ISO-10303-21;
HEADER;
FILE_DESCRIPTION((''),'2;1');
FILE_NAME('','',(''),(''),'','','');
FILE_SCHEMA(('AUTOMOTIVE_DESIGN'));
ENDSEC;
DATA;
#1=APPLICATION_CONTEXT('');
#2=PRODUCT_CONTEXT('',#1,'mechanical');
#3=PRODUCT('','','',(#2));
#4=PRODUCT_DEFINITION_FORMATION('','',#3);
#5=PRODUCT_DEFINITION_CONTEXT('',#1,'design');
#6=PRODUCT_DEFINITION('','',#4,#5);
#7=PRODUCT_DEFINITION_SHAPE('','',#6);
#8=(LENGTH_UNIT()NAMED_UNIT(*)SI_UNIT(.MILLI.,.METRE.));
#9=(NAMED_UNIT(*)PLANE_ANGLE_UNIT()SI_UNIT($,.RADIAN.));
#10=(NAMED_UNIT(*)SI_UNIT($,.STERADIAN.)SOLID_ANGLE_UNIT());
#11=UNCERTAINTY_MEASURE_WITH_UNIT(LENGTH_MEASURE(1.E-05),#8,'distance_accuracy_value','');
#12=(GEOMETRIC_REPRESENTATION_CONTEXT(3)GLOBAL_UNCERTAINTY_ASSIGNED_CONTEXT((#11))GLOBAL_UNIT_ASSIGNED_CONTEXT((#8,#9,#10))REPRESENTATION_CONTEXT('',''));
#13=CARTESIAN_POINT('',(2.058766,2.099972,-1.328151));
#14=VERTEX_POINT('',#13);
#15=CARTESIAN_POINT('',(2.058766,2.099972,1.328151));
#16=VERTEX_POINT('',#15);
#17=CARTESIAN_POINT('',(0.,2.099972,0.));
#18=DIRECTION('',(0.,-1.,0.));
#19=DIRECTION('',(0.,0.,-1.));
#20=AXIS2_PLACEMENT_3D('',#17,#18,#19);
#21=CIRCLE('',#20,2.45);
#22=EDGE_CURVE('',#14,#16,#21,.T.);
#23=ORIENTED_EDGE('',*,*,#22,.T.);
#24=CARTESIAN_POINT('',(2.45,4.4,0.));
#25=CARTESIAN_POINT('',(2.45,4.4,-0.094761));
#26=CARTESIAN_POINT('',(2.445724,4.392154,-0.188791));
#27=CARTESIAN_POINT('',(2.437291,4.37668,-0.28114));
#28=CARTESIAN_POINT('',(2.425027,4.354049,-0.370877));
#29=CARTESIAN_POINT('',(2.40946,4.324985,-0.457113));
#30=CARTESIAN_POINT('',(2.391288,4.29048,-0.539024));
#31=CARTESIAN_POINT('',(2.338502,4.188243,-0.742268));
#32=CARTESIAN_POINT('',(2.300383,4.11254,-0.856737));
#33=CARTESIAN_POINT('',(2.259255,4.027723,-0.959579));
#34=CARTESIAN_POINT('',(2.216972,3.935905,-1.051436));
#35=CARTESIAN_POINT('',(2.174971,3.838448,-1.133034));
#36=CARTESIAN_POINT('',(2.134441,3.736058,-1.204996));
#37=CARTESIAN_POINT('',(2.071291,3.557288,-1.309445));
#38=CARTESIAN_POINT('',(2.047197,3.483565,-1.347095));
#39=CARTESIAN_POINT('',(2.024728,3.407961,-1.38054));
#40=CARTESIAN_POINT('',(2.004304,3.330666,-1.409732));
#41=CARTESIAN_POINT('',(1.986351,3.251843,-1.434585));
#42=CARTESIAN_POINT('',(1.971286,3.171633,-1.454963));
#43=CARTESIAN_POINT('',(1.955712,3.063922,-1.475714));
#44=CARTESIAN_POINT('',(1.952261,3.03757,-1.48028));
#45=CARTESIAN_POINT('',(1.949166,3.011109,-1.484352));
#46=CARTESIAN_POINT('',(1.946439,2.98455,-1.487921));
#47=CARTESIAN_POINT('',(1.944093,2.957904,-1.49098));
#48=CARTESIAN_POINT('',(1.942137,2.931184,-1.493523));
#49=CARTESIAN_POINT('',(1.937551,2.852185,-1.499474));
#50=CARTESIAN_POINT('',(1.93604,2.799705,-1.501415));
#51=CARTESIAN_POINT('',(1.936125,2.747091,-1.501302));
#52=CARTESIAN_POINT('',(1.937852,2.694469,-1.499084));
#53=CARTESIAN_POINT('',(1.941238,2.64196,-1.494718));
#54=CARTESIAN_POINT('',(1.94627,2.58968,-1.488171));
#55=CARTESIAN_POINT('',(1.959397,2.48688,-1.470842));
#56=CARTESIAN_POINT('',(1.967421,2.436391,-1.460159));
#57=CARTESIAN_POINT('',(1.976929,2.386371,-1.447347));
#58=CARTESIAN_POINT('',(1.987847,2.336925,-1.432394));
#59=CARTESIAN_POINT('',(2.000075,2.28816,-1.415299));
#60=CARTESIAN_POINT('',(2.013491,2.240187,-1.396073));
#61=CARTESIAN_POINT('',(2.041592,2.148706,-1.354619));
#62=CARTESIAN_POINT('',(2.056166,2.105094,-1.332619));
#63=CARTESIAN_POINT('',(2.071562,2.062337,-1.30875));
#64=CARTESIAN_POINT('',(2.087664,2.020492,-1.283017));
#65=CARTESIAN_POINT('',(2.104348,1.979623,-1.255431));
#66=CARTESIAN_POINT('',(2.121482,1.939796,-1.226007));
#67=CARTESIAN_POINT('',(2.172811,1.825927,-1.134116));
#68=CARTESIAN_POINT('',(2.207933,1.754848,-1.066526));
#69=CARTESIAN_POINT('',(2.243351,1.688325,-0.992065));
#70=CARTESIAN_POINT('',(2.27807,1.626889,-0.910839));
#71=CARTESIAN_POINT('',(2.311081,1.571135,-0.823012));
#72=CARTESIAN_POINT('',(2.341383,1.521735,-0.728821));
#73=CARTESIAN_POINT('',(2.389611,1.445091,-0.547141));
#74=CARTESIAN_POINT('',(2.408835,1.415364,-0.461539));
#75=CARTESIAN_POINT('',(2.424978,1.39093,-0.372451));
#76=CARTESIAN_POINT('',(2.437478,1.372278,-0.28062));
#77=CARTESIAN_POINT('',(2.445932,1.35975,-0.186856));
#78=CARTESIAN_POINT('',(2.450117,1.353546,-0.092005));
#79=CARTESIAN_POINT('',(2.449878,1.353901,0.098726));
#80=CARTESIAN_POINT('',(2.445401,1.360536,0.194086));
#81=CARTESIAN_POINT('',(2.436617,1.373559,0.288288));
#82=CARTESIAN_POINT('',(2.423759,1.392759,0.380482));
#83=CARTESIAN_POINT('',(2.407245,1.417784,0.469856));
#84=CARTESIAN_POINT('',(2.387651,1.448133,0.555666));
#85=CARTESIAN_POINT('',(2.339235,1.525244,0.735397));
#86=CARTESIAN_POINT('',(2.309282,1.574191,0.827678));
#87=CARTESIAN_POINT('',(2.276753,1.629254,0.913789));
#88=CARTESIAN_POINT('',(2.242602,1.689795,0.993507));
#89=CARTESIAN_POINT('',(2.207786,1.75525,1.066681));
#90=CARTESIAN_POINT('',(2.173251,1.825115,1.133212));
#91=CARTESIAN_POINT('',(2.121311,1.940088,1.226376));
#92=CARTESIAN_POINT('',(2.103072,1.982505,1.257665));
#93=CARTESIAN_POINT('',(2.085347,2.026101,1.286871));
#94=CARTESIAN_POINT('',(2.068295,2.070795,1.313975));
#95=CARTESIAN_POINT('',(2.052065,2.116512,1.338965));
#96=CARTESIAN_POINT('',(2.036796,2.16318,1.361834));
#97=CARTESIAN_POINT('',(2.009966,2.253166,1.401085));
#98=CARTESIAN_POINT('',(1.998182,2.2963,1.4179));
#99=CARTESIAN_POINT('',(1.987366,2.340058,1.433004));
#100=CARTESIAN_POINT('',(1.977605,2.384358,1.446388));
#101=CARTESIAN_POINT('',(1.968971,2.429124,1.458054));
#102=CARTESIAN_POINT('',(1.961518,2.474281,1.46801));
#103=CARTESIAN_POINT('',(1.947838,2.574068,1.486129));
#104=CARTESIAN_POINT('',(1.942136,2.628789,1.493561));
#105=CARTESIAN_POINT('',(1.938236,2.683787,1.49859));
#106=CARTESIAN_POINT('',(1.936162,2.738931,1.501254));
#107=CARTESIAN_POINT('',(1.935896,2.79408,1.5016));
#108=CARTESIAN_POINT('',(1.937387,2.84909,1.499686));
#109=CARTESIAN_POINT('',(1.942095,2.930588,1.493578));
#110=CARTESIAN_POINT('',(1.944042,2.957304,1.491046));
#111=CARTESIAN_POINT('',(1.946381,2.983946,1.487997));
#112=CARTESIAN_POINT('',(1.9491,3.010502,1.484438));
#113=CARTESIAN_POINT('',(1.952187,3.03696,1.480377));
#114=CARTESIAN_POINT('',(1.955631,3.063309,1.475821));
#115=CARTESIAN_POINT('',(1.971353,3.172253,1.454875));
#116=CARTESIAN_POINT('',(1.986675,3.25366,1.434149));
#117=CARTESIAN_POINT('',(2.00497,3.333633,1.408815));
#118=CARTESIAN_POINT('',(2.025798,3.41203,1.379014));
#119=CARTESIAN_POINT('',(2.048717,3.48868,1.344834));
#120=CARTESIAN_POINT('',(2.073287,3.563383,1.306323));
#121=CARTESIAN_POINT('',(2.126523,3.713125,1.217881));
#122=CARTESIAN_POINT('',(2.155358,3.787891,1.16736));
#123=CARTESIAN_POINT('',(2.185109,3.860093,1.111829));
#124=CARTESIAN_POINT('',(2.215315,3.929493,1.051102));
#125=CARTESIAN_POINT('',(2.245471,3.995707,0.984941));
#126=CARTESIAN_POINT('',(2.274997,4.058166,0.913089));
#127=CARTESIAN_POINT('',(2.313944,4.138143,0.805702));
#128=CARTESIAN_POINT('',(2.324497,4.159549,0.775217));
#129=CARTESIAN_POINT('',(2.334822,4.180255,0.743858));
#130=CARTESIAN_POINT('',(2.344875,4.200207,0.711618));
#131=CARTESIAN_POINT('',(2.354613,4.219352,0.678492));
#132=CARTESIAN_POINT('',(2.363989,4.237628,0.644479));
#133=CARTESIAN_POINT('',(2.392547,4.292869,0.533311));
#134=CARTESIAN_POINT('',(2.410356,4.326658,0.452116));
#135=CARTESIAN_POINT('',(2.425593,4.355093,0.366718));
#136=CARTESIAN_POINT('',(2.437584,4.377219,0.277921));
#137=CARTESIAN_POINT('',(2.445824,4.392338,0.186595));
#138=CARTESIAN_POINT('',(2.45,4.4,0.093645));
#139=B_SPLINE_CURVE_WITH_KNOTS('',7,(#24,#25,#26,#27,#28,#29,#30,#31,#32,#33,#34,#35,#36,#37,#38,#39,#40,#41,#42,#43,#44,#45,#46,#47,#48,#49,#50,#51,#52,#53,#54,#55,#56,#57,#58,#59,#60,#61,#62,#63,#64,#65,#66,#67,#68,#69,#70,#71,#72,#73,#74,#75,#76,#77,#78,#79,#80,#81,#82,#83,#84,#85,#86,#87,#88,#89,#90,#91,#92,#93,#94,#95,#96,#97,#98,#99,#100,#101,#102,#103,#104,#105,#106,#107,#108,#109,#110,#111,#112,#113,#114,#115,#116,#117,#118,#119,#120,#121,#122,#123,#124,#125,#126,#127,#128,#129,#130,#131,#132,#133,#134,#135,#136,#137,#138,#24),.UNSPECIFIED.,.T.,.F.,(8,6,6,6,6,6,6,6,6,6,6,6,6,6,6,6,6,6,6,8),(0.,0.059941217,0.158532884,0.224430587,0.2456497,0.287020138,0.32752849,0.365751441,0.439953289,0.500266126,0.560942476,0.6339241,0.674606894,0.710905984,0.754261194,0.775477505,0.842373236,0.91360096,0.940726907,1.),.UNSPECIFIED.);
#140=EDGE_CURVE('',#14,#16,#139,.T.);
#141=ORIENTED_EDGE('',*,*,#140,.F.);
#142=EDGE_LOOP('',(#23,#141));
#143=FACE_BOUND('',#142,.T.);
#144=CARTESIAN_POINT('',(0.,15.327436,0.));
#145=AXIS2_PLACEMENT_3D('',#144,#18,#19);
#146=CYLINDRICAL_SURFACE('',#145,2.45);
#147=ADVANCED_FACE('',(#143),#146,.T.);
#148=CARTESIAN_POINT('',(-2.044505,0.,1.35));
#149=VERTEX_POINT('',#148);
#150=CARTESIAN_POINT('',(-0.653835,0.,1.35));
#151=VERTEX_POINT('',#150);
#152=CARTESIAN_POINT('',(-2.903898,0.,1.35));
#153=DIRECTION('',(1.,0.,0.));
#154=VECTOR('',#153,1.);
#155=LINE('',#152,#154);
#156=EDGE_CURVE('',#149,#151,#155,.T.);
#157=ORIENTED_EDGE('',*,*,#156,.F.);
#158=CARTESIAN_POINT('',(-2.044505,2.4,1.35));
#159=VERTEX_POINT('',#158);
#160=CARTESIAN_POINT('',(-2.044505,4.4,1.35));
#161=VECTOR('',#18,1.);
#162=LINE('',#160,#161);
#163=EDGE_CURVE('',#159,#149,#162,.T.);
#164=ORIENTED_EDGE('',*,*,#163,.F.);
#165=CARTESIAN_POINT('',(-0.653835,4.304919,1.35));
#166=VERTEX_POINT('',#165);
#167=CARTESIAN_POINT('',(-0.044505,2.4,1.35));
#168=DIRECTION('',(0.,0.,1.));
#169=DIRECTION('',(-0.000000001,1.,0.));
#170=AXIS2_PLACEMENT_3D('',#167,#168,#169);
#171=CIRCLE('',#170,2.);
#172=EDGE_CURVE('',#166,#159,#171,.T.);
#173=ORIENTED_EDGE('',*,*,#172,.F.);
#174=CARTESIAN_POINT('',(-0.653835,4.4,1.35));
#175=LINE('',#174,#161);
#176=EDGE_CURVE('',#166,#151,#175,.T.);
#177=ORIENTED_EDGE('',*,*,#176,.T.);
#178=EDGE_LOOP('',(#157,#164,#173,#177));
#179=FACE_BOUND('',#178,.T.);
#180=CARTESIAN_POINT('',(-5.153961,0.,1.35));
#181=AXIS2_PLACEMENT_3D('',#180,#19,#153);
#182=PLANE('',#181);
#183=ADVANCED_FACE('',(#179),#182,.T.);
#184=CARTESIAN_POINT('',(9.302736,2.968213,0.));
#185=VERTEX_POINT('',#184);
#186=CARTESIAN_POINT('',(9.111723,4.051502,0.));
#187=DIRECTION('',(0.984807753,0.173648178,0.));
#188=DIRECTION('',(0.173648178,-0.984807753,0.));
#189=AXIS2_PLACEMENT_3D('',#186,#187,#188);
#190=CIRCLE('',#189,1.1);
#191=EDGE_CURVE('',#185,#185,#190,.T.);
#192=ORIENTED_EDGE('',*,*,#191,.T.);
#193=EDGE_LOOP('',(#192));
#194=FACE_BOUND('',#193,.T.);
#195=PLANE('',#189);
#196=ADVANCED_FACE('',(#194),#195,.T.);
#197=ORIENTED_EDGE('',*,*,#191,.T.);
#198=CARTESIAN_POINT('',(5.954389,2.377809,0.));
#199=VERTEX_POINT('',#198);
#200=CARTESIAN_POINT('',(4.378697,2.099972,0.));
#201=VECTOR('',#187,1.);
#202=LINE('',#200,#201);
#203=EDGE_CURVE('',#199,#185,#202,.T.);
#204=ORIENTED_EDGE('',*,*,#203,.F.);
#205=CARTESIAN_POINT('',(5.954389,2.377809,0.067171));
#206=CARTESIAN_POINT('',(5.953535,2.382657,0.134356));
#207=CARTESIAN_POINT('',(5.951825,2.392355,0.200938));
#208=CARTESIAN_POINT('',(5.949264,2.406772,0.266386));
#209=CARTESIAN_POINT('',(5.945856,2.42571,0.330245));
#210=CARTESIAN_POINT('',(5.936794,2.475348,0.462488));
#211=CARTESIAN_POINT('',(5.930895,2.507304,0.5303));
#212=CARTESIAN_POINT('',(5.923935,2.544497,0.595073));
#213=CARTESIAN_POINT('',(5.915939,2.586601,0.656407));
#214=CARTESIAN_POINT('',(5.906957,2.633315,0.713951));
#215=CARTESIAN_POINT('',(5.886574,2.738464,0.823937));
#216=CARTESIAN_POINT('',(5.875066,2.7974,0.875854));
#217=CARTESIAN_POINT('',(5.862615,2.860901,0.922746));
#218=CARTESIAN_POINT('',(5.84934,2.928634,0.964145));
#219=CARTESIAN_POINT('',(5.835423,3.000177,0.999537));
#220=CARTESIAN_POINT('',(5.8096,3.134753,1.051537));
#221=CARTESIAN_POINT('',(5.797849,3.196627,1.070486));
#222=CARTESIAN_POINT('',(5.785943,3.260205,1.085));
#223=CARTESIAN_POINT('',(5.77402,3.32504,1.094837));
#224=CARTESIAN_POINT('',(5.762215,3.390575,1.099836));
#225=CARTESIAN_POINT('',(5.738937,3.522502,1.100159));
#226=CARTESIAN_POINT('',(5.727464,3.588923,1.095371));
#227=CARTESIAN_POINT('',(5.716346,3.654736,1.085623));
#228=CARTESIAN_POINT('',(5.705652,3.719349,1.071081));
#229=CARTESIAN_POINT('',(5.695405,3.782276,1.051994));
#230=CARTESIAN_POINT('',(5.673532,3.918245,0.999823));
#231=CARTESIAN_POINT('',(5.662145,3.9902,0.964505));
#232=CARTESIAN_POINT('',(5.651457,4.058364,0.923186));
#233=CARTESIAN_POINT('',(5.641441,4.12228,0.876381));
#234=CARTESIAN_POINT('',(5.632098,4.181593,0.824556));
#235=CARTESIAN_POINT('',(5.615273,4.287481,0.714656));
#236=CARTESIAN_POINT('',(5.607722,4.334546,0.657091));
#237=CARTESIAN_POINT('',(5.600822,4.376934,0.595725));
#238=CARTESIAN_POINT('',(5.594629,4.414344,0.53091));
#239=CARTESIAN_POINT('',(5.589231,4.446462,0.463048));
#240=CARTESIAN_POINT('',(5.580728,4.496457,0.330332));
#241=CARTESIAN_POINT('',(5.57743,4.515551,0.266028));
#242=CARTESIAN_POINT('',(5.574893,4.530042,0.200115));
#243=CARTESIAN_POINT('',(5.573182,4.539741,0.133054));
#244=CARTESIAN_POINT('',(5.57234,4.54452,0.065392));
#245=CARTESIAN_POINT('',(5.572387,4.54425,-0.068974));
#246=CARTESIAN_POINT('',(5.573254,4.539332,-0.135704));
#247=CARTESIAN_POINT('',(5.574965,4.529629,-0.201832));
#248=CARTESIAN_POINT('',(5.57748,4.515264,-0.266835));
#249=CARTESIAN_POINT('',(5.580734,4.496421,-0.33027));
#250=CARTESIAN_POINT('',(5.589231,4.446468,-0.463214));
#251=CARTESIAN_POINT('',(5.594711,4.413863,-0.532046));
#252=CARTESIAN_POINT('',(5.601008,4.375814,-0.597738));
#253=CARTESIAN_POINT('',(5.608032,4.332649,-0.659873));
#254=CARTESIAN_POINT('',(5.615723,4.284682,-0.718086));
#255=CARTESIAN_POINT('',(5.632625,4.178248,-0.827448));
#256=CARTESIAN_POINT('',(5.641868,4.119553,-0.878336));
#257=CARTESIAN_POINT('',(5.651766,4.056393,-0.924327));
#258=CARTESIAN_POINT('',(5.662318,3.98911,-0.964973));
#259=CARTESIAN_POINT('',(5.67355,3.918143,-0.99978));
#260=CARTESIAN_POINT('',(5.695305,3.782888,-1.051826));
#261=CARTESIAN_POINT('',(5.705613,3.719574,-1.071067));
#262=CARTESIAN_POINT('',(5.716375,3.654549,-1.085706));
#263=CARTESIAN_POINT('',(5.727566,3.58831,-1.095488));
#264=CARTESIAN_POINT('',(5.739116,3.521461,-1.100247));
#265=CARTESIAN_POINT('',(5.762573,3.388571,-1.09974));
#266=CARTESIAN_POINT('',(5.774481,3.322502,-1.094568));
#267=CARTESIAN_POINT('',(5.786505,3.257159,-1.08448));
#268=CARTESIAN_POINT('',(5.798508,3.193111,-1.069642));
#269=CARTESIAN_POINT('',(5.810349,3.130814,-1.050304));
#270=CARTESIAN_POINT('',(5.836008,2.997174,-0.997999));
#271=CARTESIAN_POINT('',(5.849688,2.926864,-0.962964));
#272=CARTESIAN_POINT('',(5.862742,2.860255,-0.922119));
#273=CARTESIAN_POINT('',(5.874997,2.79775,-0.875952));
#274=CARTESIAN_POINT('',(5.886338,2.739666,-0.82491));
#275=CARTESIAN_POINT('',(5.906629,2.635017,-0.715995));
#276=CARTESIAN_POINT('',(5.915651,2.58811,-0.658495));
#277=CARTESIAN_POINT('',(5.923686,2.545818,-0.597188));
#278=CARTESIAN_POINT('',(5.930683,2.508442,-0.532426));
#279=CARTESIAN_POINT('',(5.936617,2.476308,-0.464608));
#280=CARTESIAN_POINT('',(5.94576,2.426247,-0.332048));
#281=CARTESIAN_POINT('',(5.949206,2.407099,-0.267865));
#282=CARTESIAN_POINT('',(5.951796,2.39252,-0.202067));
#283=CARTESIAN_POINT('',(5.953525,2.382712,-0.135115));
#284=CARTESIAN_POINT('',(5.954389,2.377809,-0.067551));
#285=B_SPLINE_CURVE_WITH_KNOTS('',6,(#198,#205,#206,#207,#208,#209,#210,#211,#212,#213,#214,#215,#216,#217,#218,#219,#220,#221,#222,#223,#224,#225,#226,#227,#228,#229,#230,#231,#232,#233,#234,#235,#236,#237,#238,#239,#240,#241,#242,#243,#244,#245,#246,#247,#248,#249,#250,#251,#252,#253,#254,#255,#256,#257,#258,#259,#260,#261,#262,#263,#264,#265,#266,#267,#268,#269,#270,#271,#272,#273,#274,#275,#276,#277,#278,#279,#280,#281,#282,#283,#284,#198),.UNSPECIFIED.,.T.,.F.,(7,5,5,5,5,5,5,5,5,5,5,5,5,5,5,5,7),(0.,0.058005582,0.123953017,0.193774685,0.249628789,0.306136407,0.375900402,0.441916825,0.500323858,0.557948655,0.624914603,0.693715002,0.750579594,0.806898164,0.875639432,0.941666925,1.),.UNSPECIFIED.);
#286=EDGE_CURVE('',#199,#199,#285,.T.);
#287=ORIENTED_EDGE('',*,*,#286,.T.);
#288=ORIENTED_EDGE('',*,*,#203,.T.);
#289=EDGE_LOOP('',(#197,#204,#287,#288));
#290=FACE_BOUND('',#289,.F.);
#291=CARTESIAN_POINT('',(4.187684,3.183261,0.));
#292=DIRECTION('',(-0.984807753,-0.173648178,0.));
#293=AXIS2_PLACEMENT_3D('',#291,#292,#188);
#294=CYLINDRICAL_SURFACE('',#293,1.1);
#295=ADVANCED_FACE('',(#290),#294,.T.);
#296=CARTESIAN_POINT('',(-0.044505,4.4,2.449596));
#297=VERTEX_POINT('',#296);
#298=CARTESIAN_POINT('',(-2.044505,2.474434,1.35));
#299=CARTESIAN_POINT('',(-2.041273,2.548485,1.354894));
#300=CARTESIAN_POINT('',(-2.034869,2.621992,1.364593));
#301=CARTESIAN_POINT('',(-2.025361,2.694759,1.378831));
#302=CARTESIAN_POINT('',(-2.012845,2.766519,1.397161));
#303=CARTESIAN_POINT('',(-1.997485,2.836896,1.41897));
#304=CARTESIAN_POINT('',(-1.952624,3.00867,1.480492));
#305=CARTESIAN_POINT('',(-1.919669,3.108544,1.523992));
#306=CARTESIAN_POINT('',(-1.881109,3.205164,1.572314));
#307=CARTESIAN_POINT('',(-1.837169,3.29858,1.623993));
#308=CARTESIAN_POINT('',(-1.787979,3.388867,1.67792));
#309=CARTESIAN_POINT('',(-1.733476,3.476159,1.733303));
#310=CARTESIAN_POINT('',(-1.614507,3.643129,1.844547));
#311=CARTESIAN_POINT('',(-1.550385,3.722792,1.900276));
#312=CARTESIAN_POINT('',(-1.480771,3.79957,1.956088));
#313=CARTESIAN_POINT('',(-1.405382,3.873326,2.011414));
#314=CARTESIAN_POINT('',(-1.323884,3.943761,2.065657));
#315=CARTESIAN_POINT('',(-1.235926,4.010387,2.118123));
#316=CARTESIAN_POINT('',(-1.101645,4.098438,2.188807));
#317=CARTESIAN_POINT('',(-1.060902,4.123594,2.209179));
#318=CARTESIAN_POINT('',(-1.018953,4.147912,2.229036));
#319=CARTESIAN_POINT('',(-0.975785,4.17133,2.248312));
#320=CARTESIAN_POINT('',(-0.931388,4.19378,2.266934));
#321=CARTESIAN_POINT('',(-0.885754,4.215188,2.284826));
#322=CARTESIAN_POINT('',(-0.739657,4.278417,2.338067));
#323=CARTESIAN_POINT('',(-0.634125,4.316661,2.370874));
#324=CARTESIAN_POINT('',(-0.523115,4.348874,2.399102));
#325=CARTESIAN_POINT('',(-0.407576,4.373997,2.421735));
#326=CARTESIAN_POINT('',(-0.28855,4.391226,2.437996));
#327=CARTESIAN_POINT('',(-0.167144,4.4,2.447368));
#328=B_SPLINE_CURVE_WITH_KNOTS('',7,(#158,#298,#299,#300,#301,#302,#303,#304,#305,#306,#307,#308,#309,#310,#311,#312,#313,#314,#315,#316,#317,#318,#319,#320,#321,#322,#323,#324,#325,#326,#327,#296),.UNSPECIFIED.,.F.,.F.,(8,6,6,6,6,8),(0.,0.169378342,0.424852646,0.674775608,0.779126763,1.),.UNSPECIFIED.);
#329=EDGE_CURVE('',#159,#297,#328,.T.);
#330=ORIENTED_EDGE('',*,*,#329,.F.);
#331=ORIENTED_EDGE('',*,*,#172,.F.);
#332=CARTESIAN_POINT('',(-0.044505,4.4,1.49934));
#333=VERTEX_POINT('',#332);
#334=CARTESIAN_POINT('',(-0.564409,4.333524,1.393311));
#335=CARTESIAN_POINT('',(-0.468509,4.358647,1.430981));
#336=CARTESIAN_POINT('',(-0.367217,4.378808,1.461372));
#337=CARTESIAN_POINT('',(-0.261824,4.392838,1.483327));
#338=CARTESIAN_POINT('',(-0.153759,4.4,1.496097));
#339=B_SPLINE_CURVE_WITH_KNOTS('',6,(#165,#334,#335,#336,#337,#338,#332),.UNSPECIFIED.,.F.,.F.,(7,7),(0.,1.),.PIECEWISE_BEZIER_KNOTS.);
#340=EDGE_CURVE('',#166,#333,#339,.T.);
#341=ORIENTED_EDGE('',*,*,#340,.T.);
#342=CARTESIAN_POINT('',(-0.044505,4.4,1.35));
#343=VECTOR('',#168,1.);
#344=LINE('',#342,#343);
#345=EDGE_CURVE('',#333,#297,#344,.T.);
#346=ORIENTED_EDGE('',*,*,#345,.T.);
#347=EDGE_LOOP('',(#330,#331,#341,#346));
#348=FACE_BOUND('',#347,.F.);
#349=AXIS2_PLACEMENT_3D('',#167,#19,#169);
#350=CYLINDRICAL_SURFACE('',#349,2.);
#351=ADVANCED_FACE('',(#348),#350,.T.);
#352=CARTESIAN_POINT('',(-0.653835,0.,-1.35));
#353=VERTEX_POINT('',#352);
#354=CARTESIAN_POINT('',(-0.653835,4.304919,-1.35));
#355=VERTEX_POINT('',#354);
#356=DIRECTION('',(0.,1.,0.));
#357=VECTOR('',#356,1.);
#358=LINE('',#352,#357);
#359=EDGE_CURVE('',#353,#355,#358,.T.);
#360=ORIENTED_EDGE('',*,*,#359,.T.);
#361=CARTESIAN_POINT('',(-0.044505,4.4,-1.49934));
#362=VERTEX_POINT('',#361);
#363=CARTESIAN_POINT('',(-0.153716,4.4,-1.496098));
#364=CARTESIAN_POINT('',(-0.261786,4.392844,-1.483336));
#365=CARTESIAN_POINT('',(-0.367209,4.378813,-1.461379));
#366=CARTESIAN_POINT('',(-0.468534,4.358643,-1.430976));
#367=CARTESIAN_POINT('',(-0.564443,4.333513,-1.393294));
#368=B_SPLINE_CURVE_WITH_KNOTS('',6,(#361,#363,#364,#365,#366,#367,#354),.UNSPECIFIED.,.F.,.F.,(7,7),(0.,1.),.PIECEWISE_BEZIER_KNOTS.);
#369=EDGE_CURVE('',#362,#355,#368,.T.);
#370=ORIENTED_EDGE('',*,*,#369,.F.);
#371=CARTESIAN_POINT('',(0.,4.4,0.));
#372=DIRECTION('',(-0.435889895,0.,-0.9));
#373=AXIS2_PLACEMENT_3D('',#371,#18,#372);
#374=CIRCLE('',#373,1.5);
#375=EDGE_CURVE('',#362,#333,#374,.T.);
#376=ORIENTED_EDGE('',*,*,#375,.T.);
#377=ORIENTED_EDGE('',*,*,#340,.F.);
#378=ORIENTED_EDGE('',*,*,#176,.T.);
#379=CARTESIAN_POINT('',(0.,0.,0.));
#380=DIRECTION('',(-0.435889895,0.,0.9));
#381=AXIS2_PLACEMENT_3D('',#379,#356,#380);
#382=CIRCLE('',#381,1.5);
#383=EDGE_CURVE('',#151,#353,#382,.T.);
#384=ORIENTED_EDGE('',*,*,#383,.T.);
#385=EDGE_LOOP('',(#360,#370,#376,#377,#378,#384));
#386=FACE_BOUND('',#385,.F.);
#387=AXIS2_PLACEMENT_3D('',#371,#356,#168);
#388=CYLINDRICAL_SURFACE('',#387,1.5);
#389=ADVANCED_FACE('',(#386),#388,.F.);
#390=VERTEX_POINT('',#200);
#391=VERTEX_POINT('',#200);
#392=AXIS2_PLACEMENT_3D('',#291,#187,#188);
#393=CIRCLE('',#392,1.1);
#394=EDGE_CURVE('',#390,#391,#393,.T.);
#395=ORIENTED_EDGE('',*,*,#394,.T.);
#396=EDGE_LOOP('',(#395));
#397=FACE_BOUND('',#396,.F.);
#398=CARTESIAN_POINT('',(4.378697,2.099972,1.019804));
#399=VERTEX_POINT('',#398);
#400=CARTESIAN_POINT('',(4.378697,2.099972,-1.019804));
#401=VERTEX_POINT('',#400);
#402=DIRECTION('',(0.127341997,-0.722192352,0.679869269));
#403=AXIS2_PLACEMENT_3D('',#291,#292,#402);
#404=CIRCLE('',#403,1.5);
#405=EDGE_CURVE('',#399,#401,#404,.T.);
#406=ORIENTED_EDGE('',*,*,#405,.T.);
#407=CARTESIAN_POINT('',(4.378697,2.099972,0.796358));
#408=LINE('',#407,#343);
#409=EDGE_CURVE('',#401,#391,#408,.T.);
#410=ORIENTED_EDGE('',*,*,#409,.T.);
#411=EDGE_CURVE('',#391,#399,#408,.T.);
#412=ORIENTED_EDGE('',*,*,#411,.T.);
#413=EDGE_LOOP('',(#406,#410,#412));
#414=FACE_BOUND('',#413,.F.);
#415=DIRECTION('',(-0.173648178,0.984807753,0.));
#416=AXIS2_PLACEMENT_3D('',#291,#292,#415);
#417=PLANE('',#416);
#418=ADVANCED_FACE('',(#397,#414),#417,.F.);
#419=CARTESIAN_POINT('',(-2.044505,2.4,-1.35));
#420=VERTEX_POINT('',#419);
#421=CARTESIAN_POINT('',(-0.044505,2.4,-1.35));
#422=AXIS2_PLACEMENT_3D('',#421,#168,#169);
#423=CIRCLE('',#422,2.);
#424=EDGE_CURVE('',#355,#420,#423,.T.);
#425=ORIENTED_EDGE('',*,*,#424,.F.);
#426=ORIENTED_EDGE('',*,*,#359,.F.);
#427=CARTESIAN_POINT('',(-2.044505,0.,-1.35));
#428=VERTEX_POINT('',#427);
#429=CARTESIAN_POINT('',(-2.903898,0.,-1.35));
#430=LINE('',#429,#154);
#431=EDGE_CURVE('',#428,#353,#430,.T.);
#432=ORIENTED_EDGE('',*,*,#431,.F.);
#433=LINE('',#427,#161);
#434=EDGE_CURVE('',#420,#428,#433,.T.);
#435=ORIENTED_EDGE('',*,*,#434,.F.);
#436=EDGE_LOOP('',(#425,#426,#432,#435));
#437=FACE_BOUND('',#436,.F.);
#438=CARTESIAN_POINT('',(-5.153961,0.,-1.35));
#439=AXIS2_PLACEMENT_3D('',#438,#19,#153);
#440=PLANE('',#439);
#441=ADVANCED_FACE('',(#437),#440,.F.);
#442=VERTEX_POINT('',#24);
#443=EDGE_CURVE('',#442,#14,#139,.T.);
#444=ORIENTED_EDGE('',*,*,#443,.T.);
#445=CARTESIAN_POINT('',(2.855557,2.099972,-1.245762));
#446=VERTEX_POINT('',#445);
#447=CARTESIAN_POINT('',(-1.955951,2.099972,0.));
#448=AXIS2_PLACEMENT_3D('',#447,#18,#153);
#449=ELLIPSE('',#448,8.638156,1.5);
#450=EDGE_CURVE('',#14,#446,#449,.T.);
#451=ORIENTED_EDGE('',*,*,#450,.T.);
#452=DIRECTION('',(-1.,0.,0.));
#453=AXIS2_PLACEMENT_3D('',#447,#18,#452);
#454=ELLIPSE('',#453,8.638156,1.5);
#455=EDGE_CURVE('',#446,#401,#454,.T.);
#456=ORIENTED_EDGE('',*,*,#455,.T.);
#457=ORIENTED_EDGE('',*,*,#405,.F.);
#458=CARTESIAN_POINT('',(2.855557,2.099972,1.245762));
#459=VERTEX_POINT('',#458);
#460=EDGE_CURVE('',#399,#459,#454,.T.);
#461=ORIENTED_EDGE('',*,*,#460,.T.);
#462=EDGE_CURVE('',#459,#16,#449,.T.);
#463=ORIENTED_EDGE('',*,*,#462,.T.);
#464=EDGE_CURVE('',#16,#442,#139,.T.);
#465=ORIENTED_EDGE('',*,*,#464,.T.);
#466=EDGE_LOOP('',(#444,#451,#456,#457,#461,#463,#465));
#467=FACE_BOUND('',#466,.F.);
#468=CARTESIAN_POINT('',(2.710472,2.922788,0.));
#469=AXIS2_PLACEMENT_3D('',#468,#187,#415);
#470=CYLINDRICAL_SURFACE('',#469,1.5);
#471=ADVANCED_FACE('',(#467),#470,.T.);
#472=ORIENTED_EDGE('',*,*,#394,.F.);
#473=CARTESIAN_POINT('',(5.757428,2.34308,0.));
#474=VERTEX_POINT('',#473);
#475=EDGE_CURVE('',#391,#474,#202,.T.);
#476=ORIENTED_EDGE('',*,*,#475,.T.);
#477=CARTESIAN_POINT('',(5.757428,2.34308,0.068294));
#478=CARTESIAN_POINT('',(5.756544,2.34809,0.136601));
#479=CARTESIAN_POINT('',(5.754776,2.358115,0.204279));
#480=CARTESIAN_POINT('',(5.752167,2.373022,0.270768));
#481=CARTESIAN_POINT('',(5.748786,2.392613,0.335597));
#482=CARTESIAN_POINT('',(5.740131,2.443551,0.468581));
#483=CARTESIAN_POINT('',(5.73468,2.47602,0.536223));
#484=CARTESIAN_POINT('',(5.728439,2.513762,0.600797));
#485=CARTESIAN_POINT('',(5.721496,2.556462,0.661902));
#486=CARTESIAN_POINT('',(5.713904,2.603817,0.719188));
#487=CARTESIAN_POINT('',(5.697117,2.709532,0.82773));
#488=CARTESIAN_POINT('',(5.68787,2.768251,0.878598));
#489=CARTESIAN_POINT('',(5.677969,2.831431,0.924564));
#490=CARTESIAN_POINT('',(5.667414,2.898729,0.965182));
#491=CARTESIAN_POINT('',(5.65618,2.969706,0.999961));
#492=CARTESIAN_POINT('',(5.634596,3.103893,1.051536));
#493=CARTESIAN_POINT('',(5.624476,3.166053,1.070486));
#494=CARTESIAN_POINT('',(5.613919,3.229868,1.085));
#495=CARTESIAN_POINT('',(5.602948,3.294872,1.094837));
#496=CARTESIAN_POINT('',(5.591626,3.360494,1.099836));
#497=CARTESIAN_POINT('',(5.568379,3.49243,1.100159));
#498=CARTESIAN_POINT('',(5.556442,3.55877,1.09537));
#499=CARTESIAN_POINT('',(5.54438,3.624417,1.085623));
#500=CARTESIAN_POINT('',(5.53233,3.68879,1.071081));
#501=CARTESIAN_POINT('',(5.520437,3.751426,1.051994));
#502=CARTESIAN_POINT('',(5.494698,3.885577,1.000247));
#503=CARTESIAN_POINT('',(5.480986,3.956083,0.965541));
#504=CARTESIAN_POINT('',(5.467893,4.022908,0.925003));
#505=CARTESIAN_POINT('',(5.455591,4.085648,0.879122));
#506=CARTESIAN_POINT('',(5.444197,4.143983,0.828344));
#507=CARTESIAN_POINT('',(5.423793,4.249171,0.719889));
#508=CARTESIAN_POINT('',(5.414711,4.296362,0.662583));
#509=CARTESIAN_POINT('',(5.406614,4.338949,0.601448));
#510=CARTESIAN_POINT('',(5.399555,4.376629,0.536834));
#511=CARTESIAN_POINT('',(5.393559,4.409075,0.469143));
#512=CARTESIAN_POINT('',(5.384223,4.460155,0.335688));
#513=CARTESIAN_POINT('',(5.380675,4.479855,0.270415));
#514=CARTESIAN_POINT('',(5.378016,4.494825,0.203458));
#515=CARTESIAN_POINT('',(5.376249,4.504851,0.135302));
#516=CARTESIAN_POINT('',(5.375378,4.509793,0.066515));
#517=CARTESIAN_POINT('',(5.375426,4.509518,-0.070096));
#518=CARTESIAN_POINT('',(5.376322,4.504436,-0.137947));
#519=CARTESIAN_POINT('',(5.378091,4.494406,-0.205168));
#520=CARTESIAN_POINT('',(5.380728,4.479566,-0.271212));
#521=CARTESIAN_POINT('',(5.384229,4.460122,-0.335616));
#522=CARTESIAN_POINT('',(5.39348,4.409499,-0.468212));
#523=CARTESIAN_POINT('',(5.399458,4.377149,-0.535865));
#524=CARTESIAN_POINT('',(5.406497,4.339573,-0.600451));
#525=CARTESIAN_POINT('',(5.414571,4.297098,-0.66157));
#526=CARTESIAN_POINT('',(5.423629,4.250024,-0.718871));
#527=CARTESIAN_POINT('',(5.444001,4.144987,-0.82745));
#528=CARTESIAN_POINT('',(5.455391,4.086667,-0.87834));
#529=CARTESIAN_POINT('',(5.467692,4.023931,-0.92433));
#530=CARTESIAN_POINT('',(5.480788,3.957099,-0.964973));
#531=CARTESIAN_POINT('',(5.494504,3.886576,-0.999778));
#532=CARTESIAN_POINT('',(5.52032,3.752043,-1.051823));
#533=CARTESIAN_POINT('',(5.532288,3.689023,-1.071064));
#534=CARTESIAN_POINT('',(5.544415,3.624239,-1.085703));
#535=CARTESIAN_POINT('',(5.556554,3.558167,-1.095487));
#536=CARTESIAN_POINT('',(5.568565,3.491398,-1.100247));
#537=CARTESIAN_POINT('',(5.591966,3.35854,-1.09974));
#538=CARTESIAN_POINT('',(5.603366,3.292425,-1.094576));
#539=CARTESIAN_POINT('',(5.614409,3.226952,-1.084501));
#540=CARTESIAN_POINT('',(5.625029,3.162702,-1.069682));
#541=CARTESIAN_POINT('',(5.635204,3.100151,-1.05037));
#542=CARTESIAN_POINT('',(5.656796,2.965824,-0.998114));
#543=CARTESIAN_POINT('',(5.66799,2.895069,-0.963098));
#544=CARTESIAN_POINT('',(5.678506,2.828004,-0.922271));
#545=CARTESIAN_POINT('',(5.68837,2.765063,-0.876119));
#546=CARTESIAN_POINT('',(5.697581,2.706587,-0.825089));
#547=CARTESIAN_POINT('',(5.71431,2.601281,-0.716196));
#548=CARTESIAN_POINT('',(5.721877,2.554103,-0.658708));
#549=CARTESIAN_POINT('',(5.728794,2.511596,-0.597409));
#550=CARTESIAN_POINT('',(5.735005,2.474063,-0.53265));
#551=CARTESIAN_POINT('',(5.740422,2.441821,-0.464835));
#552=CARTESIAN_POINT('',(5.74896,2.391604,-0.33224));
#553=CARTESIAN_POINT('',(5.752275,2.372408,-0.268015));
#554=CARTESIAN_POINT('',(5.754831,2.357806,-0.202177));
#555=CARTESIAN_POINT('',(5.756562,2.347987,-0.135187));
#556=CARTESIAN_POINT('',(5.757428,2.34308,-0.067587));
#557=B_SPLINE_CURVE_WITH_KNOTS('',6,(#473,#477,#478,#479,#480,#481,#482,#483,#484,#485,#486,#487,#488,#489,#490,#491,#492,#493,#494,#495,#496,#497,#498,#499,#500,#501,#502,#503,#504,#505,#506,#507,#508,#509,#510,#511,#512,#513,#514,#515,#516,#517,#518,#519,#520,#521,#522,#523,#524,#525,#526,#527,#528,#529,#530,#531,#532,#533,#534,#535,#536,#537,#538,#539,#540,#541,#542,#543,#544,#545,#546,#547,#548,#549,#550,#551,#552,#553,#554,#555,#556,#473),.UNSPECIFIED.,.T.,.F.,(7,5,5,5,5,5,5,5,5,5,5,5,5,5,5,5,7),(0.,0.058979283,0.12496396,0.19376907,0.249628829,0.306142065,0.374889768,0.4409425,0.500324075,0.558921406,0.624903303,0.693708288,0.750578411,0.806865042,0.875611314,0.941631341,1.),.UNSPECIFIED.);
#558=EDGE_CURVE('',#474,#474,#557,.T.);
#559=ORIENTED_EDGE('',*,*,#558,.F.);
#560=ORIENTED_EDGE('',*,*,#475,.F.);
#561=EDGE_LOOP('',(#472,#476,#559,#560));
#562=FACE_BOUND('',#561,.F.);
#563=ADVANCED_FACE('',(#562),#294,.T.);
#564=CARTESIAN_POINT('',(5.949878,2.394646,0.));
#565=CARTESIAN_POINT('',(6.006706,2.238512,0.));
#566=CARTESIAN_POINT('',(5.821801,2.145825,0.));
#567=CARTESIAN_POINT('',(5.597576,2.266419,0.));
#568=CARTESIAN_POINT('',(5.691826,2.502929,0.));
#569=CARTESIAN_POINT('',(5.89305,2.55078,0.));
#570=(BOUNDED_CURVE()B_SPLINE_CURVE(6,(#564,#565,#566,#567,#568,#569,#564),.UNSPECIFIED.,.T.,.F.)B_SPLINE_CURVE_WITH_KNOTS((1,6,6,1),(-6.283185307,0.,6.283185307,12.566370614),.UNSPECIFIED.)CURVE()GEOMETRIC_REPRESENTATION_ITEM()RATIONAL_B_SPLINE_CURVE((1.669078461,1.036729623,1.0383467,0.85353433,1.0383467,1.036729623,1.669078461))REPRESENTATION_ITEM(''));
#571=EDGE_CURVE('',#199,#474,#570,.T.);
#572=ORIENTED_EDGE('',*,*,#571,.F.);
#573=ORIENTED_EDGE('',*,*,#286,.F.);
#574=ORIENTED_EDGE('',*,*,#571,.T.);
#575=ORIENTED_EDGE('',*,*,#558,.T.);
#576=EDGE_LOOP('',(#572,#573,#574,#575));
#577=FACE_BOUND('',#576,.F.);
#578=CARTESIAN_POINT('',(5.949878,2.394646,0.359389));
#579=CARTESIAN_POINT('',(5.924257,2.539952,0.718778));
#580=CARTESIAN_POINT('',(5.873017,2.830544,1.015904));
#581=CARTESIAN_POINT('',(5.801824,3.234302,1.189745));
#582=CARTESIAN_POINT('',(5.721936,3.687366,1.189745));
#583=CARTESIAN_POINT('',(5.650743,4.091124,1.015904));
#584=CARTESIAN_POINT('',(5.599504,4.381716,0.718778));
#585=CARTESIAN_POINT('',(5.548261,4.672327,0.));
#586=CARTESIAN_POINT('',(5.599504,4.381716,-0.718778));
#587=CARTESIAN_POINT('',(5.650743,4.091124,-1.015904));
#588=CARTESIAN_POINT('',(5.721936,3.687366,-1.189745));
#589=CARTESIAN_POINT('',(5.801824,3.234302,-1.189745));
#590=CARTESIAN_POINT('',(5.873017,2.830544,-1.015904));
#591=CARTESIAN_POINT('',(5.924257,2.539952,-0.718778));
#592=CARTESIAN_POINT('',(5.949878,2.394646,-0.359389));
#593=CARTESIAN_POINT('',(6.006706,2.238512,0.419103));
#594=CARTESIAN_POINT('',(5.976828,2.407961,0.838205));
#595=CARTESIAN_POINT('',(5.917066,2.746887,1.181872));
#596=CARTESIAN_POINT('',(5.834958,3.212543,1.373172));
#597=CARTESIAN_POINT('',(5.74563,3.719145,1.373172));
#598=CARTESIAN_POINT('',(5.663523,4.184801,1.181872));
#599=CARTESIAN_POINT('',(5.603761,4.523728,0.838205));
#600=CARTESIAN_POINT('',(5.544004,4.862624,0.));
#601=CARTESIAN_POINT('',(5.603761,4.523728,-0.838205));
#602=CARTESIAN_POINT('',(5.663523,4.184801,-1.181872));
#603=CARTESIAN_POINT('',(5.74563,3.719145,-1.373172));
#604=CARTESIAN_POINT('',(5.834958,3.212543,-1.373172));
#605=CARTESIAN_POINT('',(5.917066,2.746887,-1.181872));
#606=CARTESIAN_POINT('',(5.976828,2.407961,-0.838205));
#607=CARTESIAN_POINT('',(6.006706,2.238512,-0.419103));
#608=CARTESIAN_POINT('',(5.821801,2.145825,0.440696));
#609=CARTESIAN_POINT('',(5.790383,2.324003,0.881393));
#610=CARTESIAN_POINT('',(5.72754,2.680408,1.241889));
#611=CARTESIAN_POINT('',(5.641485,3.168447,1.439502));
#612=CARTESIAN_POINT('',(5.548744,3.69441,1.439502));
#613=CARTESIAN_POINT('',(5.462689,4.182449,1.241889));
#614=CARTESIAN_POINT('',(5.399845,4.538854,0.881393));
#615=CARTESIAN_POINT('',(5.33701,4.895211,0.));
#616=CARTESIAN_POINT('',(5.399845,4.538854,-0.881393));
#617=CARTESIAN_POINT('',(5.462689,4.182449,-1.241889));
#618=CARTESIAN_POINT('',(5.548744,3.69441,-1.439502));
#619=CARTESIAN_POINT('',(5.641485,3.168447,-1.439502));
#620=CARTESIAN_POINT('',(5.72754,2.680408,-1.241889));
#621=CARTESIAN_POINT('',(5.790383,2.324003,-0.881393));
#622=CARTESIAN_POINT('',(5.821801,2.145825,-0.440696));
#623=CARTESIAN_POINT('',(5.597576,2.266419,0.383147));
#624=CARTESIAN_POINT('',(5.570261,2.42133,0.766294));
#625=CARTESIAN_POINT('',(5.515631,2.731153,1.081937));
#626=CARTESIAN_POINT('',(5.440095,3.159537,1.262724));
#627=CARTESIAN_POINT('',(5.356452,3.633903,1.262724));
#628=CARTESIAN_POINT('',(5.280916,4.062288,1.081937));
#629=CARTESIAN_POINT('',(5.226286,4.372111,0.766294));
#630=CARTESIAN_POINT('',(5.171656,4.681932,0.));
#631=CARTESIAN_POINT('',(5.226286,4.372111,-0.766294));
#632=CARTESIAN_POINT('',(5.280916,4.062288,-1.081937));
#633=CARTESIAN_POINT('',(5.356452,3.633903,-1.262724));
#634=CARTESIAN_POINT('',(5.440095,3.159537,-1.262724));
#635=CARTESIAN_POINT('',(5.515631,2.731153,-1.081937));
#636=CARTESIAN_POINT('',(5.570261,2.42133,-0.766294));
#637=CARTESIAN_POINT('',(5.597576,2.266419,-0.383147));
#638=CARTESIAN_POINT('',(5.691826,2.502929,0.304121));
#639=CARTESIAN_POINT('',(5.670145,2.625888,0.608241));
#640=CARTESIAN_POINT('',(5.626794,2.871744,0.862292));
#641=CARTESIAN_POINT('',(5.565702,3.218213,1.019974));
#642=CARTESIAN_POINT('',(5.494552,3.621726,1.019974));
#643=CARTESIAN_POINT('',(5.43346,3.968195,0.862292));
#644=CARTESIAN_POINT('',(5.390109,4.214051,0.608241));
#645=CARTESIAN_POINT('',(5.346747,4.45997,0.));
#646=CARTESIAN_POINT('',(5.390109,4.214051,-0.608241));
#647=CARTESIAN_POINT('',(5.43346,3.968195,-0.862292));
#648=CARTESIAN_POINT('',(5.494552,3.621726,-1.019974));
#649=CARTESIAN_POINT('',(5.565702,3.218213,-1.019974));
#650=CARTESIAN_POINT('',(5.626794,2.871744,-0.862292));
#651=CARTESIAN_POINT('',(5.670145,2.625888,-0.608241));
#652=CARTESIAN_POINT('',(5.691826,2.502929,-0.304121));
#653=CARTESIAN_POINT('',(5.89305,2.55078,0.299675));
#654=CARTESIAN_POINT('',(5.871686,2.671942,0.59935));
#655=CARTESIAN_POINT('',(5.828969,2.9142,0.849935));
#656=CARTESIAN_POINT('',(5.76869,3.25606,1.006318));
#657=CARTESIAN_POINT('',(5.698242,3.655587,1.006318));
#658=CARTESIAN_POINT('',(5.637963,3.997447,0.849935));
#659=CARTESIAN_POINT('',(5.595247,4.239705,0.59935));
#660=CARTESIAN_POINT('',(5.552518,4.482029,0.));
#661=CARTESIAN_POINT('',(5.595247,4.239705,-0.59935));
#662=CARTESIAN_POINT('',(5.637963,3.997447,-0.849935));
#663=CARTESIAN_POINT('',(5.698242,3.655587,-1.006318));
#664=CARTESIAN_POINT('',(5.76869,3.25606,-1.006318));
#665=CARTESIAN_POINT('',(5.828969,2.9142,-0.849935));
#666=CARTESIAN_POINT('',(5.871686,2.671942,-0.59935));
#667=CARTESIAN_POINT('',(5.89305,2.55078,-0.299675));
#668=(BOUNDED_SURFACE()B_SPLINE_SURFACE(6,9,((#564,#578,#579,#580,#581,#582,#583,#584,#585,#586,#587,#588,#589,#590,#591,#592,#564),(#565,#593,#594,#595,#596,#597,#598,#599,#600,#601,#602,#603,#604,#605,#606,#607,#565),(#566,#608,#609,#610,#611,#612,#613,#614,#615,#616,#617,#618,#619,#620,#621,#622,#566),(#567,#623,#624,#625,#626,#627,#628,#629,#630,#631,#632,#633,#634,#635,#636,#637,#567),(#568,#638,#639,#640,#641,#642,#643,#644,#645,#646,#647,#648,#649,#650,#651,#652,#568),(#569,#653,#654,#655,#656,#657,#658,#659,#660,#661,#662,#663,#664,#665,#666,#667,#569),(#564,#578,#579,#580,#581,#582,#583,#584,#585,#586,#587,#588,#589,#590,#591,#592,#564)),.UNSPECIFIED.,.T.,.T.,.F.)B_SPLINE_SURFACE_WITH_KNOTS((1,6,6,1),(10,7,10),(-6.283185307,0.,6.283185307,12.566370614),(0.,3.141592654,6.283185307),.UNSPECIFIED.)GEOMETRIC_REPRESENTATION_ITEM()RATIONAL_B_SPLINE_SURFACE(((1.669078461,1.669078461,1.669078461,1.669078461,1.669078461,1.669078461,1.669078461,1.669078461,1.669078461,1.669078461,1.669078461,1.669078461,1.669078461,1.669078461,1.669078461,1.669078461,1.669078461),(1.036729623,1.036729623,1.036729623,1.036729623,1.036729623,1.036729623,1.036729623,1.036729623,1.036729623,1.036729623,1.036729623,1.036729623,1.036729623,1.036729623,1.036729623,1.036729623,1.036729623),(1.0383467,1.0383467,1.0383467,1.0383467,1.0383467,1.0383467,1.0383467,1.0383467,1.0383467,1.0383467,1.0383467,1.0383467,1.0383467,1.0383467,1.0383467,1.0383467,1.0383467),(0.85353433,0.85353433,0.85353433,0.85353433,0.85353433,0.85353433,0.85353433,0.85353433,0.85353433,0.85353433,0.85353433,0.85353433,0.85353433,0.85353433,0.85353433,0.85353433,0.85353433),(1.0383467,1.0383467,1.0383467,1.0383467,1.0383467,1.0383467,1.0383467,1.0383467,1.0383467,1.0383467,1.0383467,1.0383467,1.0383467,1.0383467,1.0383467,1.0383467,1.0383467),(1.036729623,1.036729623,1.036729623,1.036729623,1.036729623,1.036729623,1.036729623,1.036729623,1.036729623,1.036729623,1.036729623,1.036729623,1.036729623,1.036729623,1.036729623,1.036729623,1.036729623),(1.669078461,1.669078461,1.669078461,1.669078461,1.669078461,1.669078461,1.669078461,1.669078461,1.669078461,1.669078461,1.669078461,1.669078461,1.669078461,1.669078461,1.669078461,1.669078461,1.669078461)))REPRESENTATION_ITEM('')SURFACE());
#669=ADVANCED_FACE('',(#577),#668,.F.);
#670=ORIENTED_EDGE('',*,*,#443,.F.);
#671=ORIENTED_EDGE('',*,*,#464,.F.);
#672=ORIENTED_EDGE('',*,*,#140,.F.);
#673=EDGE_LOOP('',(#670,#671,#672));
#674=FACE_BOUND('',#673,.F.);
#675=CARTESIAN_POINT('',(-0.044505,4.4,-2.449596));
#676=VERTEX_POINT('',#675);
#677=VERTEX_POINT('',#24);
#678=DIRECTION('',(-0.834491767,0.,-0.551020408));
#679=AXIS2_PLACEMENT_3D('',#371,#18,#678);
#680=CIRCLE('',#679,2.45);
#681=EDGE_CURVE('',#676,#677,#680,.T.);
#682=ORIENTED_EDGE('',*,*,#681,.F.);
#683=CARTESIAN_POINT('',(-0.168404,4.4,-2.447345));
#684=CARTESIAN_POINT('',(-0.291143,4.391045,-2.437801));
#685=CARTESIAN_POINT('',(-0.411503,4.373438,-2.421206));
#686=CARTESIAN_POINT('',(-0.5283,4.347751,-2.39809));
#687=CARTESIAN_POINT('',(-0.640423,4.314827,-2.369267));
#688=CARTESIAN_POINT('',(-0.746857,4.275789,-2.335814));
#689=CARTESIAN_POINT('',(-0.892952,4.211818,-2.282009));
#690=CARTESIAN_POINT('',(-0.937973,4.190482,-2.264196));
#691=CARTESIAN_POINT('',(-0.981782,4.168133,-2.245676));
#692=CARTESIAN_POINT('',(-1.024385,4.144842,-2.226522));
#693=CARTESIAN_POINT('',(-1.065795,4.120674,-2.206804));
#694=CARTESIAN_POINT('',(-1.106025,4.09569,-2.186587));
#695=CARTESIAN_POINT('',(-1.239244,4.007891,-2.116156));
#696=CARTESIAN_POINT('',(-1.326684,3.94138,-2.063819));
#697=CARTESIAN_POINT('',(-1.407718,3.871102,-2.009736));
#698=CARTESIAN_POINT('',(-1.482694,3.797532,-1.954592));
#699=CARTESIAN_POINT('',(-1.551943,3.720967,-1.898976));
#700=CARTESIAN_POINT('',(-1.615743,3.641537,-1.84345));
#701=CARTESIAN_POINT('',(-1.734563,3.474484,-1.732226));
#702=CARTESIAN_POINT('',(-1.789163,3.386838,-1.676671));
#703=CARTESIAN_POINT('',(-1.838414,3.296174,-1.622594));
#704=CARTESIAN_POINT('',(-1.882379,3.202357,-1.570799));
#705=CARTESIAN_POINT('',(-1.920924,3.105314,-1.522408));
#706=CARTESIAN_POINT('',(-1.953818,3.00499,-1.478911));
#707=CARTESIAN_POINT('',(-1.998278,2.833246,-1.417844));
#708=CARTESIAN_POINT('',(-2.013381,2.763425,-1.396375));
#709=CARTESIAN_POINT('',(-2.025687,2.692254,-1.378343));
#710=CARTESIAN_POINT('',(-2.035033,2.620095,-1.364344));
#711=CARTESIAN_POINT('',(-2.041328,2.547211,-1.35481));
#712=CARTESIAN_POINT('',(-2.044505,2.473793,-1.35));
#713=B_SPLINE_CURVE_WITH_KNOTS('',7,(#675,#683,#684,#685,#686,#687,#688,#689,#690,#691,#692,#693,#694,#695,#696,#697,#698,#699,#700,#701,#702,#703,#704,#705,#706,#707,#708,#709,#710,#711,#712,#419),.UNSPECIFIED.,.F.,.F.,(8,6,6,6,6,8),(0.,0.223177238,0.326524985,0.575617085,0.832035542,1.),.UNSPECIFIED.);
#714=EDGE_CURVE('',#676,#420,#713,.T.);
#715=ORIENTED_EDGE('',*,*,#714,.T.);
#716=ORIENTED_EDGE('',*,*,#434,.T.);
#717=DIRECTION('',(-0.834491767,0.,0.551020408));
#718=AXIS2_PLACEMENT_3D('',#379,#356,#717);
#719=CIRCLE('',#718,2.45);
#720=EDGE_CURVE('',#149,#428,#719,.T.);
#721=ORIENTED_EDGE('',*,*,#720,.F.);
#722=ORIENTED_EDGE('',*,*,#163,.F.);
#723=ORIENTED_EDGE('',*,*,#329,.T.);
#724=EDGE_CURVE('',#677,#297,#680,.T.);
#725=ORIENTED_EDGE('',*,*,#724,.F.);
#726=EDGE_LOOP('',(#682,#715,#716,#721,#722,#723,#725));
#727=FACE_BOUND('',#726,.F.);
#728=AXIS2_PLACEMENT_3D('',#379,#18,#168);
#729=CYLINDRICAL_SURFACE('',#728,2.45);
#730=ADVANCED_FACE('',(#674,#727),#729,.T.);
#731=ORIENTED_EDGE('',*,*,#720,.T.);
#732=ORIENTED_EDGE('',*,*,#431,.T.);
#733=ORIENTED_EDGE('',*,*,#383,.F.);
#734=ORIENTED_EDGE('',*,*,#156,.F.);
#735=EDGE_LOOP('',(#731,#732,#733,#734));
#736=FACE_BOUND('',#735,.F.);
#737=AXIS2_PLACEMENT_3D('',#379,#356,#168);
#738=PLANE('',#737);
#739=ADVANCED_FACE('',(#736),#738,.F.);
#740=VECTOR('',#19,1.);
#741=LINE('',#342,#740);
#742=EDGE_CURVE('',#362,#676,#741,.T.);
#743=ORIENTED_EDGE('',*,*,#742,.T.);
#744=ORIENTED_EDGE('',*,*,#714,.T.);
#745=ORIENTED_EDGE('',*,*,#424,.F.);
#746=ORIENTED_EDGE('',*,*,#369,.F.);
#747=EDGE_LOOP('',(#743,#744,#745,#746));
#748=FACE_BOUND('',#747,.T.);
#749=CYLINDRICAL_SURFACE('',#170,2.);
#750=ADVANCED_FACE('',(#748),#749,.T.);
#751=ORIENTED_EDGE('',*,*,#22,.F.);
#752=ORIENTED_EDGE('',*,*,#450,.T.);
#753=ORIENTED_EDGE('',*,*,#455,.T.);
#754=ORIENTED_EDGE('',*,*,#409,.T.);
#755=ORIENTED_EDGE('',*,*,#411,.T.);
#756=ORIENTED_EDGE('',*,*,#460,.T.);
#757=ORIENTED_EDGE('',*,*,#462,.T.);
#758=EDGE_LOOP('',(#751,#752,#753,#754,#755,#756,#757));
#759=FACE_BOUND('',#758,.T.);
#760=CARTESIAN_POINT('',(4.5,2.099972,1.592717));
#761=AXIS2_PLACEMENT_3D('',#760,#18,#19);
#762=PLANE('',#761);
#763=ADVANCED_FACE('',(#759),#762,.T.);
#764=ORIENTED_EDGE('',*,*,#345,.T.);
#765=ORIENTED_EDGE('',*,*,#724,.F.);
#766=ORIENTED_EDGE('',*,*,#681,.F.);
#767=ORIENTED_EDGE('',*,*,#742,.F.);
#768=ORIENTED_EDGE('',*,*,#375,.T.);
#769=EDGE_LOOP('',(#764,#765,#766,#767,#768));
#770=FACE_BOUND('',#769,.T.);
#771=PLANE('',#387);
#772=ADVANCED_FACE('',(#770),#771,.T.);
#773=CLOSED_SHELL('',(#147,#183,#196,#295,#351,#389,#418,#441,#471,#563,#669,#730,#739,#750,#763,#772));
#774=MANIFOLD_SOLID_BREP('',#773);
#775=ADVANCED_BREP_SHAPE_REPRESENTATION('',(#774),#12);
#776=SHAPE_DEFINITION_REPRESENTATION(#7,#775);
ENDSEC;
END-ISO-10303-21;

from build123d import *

# Parameters (mm, degrees)
SKETCH1_R                            = 2.45
BOSS_EXTRUDE1_DEPTH                  = 4.4
SKETCH2_R                            = 1.5
CUT_EXTRUDE4_DEPTH                   = 6.600446411
SKETCH4_W                            = 4.500126036
SKETCH4_H                            = 2.7
CUT_EXTRUDE6_DEPTH                   = 6.600446411
CUT_EXTRUDE7_DEPTH                   = 7.308922253
CUT_EXTRUDE7_DEPTH_BACK              = 7.308922253
SKETCH15_R                           = 1.5
BOSS_EXTRUDE2_DEPTH                  = 1.5
BOSS_EXTRUDE2_DIRECTION_2_REACH      = 8.897
BOSS_EXTRUDE2_DIRECTION_2_END_RADIUS = 2.45
SKETCH17_R                           = 1.1
BOSS_EXTRUDE3_DEPTH                  = 5
CUT_EXTRUDE8_REACH                   = 10.672
CUT_EXTRUDE8_END_RADIUS              = 2.45
SKETCH22_W                           = 3.41388459
SKETCH22_H                           = 0.789073042
SKETCH23_R                           = 0.1


with BuildPart() as part:
    # Sketch1 → Boss-Extrude1 (new body)
    with BuildSketch(Plane(origin=(0, 0, 0), x_dir=(1, 0, 0), z_dir=(0, 1, 0))):
        with Locations(Location((0, 0, 0), (0, 0, 270))):
            Circle(SKETCH1_R)
    extrude(amount=BOSS_EXTRUDE1_DEPTH)

    # Sketch2 → Cut-Extrude4 (cut, through all)
    with BuildSketch(Plane(origin=(0, 4.4, 0), x_dir=(1, 0, 0), z_dir=(0, 1, 0))):
        with Locations(Location((0, 0, 0), (0, 0, 270))):
            Circle(SKETCH2_R)
    extrude(amount=-CUT_EXTRUDE4_DEPTH, mode=Mode.SUBTRACT)

    # Sketch4 → Cut-Extrude6 (cut, through all)
    with BuildSketch(Plane(origin=(0, 0, 0), x_dir=(1, 0, 0), z_dir=(0, 1, 0))):
        with Locations((-2.90389786, 0)):
            Rectangle(SKETCH4_W, SKETCH4_H)
    extrude(amount=CUT_EXTRUDE6_DEPTH, mode=Mode.SUBTRACT)

    # Sketch11 → Cut-Extrude7 (cut, two sides)
    with BuildSketch(Plane(origin=(0, 0, 1.35), x_dir=(-1, 0, 0), z_dir=(0, 0, -1))) as cut_extrude7_sk:
        with BuildLine():
            Line((2.04450483, 2.4), (2.911847468, 2.4))
            Line((2.911847468, 2.4), (2.911847468, 5.613196254))
            Line((2.911847468, 5.613196254), (0.04450483, 5.613196254))
            Line((0.04450483, 5.613196254), (0.04450483, 4.4))
            ThreePointArc((0.04450483, 4.4), (1.458718392, 3.814213562), (2.04450483, 2.4))
        make_face()
    extrude(amount=CUT_EXTRUDE7_DEPTH, mode=Mode.SUBTRACT)
    extrude(cut_extrude7_sk.sketch, amount=-CUT_EXTRUDE7_DEPTH_BACK, mode=Mode.SUBTRACT)


with BuildPart() as boss_extrude2_tool:
    # Sketch15 → Boss-Extrude2 (new body)
    with BuildSketch(Plane(origin=(3.128567776, 0.55165091, 0), x_dir=(0, 0, 1), z_dir=(-0.9848077530122092, -0.1736481776669237, 0))):
        with Locations(Location((0, 2.407716078, 0), (0, 0, 90))):
            Circle(SKETCH15_R)
    extrude(amount=-BOSS_EXTRUDE2_DEPTH)


with BuildPart() as part_1:
    add(part.part)


with BuildPart() as part_2:
    # Boss-Extrude2: joined with boss_extrude2_tool
    add(part_1.part.fuse(boss_extrude2_tool.part, tol=0.00001))

    # Boss-Extrude2 direction 2: up to this cylinder (the profile starts outside it)
    boss_extrude2_direction_2_end = Plane(origin=(0, 2.922788, 0), z_dir=(0, -1, 0)) * Cylinder(BOSS_EXTRUDE2_DIRECTION_2_END_RADIUS, 23.694, mode=Mode.PRIVATE)
    # Sketch15 → Boss-Extrude2 direction 2 (add, up to the surface)
    with BuildSketch(Plane(origin=(3.128567776, 0.55165091, 0), x_dir=(0, 0, 1), z_dir=(-0.9848077530122092, -0.1736481776669237, 0)), mode=Mode.PRIVATE) as boss_extrude2_direction_2_sk1:
        with Locations(Location((0, 2.407716078, 0), (0, 0, 90))):
            Circle(SKETCH15_R)
    boss_extrude2_direction_2_tool1 = extrude(boss_extrude2_direction_2_sk1.sketch, amount=BOSS_EXTRUDE2_DIRECTION_2_REACH, mode=Mode.PRIVATE) - boss_extrude2_direction_2_end
    add(boss_extrude2_direction_2_tool1.solids().sort_by_distance((2.710472, 2.922788, 0))[0])

    # Sketch17 → Boss-Extrude3 (add)
    with BuildSketch(Plane(origin=(4.605779405, 0.812123176, 0), x_dir=(0, 0, -1), z_dir=(0.9848077530122092, 0.1736481776669237, 0))):
        with Locations(Location((0, 2.407716078, 0), (0, 0, 270))):
            Circle(SKETCH17_R)
    extrude(amount=BOSS_EXTRUDE3_DEPTH)

    # Cut-Extrude8: up to this cylinder (the profile starts outside it)
    cut_extrude8_end = Plane(origin=(0, 1.705436, 0), z_dir=(0, -1, 0)) * Cylinder(CUT_EXTRUDE8_END_RADIUS, 27.244, mode=Mode.PRIVATE)
    # Sketch22 → Cut-Extrude8 (cut, up to the surface)
    with BuildSketch(Plane(origin=(4.5, 0, 0), x_dir=(0, 0, -1), z_dir=(1, 0, 0)), mode=Mode.PRIVATE) as cut_extrude8_sk1:
        with Locations((0.114225606, 1.705435588)):
            Rectangle(SKETCH22_W, SKETCH22_H)
    cut_extrude8_tool1 = extrude(cut_extrude8_sk1.sketch, amount=-CUT_EXTRUDE8_REACH, mode=Mode.PRIVATE) - cut_extrude8_end
    add(cut_extrude8_tool1.solids().sort_by_distance((4.5, 1.705436, -0.114226))[0], mode=Mode.SUBTRACT)

    # Sweep1: sweep along a path in Sketch20
    with BuildLine(Plane(origin=(6.082991035, 1.072595443, 0), x_dir=(0, 0, 1), z_dir=(-0.9848077530122092, -0.1736481776669237, 0))) as sweep1_path:
        EllipticalCenterArc((0, 2.407716078), 1.15, 1.1, start_angle=0, arc_size=360, rotation=-90)
    # Sketch23 → Sweep1 (sweep)
    with BuildSketch(Plane.XY):
        with Locations((5.47388253, 4.527021432)):
            Circle(SKETCH23_R)
    sweep(path=sweep1_path.line)


solid = part_2.part
